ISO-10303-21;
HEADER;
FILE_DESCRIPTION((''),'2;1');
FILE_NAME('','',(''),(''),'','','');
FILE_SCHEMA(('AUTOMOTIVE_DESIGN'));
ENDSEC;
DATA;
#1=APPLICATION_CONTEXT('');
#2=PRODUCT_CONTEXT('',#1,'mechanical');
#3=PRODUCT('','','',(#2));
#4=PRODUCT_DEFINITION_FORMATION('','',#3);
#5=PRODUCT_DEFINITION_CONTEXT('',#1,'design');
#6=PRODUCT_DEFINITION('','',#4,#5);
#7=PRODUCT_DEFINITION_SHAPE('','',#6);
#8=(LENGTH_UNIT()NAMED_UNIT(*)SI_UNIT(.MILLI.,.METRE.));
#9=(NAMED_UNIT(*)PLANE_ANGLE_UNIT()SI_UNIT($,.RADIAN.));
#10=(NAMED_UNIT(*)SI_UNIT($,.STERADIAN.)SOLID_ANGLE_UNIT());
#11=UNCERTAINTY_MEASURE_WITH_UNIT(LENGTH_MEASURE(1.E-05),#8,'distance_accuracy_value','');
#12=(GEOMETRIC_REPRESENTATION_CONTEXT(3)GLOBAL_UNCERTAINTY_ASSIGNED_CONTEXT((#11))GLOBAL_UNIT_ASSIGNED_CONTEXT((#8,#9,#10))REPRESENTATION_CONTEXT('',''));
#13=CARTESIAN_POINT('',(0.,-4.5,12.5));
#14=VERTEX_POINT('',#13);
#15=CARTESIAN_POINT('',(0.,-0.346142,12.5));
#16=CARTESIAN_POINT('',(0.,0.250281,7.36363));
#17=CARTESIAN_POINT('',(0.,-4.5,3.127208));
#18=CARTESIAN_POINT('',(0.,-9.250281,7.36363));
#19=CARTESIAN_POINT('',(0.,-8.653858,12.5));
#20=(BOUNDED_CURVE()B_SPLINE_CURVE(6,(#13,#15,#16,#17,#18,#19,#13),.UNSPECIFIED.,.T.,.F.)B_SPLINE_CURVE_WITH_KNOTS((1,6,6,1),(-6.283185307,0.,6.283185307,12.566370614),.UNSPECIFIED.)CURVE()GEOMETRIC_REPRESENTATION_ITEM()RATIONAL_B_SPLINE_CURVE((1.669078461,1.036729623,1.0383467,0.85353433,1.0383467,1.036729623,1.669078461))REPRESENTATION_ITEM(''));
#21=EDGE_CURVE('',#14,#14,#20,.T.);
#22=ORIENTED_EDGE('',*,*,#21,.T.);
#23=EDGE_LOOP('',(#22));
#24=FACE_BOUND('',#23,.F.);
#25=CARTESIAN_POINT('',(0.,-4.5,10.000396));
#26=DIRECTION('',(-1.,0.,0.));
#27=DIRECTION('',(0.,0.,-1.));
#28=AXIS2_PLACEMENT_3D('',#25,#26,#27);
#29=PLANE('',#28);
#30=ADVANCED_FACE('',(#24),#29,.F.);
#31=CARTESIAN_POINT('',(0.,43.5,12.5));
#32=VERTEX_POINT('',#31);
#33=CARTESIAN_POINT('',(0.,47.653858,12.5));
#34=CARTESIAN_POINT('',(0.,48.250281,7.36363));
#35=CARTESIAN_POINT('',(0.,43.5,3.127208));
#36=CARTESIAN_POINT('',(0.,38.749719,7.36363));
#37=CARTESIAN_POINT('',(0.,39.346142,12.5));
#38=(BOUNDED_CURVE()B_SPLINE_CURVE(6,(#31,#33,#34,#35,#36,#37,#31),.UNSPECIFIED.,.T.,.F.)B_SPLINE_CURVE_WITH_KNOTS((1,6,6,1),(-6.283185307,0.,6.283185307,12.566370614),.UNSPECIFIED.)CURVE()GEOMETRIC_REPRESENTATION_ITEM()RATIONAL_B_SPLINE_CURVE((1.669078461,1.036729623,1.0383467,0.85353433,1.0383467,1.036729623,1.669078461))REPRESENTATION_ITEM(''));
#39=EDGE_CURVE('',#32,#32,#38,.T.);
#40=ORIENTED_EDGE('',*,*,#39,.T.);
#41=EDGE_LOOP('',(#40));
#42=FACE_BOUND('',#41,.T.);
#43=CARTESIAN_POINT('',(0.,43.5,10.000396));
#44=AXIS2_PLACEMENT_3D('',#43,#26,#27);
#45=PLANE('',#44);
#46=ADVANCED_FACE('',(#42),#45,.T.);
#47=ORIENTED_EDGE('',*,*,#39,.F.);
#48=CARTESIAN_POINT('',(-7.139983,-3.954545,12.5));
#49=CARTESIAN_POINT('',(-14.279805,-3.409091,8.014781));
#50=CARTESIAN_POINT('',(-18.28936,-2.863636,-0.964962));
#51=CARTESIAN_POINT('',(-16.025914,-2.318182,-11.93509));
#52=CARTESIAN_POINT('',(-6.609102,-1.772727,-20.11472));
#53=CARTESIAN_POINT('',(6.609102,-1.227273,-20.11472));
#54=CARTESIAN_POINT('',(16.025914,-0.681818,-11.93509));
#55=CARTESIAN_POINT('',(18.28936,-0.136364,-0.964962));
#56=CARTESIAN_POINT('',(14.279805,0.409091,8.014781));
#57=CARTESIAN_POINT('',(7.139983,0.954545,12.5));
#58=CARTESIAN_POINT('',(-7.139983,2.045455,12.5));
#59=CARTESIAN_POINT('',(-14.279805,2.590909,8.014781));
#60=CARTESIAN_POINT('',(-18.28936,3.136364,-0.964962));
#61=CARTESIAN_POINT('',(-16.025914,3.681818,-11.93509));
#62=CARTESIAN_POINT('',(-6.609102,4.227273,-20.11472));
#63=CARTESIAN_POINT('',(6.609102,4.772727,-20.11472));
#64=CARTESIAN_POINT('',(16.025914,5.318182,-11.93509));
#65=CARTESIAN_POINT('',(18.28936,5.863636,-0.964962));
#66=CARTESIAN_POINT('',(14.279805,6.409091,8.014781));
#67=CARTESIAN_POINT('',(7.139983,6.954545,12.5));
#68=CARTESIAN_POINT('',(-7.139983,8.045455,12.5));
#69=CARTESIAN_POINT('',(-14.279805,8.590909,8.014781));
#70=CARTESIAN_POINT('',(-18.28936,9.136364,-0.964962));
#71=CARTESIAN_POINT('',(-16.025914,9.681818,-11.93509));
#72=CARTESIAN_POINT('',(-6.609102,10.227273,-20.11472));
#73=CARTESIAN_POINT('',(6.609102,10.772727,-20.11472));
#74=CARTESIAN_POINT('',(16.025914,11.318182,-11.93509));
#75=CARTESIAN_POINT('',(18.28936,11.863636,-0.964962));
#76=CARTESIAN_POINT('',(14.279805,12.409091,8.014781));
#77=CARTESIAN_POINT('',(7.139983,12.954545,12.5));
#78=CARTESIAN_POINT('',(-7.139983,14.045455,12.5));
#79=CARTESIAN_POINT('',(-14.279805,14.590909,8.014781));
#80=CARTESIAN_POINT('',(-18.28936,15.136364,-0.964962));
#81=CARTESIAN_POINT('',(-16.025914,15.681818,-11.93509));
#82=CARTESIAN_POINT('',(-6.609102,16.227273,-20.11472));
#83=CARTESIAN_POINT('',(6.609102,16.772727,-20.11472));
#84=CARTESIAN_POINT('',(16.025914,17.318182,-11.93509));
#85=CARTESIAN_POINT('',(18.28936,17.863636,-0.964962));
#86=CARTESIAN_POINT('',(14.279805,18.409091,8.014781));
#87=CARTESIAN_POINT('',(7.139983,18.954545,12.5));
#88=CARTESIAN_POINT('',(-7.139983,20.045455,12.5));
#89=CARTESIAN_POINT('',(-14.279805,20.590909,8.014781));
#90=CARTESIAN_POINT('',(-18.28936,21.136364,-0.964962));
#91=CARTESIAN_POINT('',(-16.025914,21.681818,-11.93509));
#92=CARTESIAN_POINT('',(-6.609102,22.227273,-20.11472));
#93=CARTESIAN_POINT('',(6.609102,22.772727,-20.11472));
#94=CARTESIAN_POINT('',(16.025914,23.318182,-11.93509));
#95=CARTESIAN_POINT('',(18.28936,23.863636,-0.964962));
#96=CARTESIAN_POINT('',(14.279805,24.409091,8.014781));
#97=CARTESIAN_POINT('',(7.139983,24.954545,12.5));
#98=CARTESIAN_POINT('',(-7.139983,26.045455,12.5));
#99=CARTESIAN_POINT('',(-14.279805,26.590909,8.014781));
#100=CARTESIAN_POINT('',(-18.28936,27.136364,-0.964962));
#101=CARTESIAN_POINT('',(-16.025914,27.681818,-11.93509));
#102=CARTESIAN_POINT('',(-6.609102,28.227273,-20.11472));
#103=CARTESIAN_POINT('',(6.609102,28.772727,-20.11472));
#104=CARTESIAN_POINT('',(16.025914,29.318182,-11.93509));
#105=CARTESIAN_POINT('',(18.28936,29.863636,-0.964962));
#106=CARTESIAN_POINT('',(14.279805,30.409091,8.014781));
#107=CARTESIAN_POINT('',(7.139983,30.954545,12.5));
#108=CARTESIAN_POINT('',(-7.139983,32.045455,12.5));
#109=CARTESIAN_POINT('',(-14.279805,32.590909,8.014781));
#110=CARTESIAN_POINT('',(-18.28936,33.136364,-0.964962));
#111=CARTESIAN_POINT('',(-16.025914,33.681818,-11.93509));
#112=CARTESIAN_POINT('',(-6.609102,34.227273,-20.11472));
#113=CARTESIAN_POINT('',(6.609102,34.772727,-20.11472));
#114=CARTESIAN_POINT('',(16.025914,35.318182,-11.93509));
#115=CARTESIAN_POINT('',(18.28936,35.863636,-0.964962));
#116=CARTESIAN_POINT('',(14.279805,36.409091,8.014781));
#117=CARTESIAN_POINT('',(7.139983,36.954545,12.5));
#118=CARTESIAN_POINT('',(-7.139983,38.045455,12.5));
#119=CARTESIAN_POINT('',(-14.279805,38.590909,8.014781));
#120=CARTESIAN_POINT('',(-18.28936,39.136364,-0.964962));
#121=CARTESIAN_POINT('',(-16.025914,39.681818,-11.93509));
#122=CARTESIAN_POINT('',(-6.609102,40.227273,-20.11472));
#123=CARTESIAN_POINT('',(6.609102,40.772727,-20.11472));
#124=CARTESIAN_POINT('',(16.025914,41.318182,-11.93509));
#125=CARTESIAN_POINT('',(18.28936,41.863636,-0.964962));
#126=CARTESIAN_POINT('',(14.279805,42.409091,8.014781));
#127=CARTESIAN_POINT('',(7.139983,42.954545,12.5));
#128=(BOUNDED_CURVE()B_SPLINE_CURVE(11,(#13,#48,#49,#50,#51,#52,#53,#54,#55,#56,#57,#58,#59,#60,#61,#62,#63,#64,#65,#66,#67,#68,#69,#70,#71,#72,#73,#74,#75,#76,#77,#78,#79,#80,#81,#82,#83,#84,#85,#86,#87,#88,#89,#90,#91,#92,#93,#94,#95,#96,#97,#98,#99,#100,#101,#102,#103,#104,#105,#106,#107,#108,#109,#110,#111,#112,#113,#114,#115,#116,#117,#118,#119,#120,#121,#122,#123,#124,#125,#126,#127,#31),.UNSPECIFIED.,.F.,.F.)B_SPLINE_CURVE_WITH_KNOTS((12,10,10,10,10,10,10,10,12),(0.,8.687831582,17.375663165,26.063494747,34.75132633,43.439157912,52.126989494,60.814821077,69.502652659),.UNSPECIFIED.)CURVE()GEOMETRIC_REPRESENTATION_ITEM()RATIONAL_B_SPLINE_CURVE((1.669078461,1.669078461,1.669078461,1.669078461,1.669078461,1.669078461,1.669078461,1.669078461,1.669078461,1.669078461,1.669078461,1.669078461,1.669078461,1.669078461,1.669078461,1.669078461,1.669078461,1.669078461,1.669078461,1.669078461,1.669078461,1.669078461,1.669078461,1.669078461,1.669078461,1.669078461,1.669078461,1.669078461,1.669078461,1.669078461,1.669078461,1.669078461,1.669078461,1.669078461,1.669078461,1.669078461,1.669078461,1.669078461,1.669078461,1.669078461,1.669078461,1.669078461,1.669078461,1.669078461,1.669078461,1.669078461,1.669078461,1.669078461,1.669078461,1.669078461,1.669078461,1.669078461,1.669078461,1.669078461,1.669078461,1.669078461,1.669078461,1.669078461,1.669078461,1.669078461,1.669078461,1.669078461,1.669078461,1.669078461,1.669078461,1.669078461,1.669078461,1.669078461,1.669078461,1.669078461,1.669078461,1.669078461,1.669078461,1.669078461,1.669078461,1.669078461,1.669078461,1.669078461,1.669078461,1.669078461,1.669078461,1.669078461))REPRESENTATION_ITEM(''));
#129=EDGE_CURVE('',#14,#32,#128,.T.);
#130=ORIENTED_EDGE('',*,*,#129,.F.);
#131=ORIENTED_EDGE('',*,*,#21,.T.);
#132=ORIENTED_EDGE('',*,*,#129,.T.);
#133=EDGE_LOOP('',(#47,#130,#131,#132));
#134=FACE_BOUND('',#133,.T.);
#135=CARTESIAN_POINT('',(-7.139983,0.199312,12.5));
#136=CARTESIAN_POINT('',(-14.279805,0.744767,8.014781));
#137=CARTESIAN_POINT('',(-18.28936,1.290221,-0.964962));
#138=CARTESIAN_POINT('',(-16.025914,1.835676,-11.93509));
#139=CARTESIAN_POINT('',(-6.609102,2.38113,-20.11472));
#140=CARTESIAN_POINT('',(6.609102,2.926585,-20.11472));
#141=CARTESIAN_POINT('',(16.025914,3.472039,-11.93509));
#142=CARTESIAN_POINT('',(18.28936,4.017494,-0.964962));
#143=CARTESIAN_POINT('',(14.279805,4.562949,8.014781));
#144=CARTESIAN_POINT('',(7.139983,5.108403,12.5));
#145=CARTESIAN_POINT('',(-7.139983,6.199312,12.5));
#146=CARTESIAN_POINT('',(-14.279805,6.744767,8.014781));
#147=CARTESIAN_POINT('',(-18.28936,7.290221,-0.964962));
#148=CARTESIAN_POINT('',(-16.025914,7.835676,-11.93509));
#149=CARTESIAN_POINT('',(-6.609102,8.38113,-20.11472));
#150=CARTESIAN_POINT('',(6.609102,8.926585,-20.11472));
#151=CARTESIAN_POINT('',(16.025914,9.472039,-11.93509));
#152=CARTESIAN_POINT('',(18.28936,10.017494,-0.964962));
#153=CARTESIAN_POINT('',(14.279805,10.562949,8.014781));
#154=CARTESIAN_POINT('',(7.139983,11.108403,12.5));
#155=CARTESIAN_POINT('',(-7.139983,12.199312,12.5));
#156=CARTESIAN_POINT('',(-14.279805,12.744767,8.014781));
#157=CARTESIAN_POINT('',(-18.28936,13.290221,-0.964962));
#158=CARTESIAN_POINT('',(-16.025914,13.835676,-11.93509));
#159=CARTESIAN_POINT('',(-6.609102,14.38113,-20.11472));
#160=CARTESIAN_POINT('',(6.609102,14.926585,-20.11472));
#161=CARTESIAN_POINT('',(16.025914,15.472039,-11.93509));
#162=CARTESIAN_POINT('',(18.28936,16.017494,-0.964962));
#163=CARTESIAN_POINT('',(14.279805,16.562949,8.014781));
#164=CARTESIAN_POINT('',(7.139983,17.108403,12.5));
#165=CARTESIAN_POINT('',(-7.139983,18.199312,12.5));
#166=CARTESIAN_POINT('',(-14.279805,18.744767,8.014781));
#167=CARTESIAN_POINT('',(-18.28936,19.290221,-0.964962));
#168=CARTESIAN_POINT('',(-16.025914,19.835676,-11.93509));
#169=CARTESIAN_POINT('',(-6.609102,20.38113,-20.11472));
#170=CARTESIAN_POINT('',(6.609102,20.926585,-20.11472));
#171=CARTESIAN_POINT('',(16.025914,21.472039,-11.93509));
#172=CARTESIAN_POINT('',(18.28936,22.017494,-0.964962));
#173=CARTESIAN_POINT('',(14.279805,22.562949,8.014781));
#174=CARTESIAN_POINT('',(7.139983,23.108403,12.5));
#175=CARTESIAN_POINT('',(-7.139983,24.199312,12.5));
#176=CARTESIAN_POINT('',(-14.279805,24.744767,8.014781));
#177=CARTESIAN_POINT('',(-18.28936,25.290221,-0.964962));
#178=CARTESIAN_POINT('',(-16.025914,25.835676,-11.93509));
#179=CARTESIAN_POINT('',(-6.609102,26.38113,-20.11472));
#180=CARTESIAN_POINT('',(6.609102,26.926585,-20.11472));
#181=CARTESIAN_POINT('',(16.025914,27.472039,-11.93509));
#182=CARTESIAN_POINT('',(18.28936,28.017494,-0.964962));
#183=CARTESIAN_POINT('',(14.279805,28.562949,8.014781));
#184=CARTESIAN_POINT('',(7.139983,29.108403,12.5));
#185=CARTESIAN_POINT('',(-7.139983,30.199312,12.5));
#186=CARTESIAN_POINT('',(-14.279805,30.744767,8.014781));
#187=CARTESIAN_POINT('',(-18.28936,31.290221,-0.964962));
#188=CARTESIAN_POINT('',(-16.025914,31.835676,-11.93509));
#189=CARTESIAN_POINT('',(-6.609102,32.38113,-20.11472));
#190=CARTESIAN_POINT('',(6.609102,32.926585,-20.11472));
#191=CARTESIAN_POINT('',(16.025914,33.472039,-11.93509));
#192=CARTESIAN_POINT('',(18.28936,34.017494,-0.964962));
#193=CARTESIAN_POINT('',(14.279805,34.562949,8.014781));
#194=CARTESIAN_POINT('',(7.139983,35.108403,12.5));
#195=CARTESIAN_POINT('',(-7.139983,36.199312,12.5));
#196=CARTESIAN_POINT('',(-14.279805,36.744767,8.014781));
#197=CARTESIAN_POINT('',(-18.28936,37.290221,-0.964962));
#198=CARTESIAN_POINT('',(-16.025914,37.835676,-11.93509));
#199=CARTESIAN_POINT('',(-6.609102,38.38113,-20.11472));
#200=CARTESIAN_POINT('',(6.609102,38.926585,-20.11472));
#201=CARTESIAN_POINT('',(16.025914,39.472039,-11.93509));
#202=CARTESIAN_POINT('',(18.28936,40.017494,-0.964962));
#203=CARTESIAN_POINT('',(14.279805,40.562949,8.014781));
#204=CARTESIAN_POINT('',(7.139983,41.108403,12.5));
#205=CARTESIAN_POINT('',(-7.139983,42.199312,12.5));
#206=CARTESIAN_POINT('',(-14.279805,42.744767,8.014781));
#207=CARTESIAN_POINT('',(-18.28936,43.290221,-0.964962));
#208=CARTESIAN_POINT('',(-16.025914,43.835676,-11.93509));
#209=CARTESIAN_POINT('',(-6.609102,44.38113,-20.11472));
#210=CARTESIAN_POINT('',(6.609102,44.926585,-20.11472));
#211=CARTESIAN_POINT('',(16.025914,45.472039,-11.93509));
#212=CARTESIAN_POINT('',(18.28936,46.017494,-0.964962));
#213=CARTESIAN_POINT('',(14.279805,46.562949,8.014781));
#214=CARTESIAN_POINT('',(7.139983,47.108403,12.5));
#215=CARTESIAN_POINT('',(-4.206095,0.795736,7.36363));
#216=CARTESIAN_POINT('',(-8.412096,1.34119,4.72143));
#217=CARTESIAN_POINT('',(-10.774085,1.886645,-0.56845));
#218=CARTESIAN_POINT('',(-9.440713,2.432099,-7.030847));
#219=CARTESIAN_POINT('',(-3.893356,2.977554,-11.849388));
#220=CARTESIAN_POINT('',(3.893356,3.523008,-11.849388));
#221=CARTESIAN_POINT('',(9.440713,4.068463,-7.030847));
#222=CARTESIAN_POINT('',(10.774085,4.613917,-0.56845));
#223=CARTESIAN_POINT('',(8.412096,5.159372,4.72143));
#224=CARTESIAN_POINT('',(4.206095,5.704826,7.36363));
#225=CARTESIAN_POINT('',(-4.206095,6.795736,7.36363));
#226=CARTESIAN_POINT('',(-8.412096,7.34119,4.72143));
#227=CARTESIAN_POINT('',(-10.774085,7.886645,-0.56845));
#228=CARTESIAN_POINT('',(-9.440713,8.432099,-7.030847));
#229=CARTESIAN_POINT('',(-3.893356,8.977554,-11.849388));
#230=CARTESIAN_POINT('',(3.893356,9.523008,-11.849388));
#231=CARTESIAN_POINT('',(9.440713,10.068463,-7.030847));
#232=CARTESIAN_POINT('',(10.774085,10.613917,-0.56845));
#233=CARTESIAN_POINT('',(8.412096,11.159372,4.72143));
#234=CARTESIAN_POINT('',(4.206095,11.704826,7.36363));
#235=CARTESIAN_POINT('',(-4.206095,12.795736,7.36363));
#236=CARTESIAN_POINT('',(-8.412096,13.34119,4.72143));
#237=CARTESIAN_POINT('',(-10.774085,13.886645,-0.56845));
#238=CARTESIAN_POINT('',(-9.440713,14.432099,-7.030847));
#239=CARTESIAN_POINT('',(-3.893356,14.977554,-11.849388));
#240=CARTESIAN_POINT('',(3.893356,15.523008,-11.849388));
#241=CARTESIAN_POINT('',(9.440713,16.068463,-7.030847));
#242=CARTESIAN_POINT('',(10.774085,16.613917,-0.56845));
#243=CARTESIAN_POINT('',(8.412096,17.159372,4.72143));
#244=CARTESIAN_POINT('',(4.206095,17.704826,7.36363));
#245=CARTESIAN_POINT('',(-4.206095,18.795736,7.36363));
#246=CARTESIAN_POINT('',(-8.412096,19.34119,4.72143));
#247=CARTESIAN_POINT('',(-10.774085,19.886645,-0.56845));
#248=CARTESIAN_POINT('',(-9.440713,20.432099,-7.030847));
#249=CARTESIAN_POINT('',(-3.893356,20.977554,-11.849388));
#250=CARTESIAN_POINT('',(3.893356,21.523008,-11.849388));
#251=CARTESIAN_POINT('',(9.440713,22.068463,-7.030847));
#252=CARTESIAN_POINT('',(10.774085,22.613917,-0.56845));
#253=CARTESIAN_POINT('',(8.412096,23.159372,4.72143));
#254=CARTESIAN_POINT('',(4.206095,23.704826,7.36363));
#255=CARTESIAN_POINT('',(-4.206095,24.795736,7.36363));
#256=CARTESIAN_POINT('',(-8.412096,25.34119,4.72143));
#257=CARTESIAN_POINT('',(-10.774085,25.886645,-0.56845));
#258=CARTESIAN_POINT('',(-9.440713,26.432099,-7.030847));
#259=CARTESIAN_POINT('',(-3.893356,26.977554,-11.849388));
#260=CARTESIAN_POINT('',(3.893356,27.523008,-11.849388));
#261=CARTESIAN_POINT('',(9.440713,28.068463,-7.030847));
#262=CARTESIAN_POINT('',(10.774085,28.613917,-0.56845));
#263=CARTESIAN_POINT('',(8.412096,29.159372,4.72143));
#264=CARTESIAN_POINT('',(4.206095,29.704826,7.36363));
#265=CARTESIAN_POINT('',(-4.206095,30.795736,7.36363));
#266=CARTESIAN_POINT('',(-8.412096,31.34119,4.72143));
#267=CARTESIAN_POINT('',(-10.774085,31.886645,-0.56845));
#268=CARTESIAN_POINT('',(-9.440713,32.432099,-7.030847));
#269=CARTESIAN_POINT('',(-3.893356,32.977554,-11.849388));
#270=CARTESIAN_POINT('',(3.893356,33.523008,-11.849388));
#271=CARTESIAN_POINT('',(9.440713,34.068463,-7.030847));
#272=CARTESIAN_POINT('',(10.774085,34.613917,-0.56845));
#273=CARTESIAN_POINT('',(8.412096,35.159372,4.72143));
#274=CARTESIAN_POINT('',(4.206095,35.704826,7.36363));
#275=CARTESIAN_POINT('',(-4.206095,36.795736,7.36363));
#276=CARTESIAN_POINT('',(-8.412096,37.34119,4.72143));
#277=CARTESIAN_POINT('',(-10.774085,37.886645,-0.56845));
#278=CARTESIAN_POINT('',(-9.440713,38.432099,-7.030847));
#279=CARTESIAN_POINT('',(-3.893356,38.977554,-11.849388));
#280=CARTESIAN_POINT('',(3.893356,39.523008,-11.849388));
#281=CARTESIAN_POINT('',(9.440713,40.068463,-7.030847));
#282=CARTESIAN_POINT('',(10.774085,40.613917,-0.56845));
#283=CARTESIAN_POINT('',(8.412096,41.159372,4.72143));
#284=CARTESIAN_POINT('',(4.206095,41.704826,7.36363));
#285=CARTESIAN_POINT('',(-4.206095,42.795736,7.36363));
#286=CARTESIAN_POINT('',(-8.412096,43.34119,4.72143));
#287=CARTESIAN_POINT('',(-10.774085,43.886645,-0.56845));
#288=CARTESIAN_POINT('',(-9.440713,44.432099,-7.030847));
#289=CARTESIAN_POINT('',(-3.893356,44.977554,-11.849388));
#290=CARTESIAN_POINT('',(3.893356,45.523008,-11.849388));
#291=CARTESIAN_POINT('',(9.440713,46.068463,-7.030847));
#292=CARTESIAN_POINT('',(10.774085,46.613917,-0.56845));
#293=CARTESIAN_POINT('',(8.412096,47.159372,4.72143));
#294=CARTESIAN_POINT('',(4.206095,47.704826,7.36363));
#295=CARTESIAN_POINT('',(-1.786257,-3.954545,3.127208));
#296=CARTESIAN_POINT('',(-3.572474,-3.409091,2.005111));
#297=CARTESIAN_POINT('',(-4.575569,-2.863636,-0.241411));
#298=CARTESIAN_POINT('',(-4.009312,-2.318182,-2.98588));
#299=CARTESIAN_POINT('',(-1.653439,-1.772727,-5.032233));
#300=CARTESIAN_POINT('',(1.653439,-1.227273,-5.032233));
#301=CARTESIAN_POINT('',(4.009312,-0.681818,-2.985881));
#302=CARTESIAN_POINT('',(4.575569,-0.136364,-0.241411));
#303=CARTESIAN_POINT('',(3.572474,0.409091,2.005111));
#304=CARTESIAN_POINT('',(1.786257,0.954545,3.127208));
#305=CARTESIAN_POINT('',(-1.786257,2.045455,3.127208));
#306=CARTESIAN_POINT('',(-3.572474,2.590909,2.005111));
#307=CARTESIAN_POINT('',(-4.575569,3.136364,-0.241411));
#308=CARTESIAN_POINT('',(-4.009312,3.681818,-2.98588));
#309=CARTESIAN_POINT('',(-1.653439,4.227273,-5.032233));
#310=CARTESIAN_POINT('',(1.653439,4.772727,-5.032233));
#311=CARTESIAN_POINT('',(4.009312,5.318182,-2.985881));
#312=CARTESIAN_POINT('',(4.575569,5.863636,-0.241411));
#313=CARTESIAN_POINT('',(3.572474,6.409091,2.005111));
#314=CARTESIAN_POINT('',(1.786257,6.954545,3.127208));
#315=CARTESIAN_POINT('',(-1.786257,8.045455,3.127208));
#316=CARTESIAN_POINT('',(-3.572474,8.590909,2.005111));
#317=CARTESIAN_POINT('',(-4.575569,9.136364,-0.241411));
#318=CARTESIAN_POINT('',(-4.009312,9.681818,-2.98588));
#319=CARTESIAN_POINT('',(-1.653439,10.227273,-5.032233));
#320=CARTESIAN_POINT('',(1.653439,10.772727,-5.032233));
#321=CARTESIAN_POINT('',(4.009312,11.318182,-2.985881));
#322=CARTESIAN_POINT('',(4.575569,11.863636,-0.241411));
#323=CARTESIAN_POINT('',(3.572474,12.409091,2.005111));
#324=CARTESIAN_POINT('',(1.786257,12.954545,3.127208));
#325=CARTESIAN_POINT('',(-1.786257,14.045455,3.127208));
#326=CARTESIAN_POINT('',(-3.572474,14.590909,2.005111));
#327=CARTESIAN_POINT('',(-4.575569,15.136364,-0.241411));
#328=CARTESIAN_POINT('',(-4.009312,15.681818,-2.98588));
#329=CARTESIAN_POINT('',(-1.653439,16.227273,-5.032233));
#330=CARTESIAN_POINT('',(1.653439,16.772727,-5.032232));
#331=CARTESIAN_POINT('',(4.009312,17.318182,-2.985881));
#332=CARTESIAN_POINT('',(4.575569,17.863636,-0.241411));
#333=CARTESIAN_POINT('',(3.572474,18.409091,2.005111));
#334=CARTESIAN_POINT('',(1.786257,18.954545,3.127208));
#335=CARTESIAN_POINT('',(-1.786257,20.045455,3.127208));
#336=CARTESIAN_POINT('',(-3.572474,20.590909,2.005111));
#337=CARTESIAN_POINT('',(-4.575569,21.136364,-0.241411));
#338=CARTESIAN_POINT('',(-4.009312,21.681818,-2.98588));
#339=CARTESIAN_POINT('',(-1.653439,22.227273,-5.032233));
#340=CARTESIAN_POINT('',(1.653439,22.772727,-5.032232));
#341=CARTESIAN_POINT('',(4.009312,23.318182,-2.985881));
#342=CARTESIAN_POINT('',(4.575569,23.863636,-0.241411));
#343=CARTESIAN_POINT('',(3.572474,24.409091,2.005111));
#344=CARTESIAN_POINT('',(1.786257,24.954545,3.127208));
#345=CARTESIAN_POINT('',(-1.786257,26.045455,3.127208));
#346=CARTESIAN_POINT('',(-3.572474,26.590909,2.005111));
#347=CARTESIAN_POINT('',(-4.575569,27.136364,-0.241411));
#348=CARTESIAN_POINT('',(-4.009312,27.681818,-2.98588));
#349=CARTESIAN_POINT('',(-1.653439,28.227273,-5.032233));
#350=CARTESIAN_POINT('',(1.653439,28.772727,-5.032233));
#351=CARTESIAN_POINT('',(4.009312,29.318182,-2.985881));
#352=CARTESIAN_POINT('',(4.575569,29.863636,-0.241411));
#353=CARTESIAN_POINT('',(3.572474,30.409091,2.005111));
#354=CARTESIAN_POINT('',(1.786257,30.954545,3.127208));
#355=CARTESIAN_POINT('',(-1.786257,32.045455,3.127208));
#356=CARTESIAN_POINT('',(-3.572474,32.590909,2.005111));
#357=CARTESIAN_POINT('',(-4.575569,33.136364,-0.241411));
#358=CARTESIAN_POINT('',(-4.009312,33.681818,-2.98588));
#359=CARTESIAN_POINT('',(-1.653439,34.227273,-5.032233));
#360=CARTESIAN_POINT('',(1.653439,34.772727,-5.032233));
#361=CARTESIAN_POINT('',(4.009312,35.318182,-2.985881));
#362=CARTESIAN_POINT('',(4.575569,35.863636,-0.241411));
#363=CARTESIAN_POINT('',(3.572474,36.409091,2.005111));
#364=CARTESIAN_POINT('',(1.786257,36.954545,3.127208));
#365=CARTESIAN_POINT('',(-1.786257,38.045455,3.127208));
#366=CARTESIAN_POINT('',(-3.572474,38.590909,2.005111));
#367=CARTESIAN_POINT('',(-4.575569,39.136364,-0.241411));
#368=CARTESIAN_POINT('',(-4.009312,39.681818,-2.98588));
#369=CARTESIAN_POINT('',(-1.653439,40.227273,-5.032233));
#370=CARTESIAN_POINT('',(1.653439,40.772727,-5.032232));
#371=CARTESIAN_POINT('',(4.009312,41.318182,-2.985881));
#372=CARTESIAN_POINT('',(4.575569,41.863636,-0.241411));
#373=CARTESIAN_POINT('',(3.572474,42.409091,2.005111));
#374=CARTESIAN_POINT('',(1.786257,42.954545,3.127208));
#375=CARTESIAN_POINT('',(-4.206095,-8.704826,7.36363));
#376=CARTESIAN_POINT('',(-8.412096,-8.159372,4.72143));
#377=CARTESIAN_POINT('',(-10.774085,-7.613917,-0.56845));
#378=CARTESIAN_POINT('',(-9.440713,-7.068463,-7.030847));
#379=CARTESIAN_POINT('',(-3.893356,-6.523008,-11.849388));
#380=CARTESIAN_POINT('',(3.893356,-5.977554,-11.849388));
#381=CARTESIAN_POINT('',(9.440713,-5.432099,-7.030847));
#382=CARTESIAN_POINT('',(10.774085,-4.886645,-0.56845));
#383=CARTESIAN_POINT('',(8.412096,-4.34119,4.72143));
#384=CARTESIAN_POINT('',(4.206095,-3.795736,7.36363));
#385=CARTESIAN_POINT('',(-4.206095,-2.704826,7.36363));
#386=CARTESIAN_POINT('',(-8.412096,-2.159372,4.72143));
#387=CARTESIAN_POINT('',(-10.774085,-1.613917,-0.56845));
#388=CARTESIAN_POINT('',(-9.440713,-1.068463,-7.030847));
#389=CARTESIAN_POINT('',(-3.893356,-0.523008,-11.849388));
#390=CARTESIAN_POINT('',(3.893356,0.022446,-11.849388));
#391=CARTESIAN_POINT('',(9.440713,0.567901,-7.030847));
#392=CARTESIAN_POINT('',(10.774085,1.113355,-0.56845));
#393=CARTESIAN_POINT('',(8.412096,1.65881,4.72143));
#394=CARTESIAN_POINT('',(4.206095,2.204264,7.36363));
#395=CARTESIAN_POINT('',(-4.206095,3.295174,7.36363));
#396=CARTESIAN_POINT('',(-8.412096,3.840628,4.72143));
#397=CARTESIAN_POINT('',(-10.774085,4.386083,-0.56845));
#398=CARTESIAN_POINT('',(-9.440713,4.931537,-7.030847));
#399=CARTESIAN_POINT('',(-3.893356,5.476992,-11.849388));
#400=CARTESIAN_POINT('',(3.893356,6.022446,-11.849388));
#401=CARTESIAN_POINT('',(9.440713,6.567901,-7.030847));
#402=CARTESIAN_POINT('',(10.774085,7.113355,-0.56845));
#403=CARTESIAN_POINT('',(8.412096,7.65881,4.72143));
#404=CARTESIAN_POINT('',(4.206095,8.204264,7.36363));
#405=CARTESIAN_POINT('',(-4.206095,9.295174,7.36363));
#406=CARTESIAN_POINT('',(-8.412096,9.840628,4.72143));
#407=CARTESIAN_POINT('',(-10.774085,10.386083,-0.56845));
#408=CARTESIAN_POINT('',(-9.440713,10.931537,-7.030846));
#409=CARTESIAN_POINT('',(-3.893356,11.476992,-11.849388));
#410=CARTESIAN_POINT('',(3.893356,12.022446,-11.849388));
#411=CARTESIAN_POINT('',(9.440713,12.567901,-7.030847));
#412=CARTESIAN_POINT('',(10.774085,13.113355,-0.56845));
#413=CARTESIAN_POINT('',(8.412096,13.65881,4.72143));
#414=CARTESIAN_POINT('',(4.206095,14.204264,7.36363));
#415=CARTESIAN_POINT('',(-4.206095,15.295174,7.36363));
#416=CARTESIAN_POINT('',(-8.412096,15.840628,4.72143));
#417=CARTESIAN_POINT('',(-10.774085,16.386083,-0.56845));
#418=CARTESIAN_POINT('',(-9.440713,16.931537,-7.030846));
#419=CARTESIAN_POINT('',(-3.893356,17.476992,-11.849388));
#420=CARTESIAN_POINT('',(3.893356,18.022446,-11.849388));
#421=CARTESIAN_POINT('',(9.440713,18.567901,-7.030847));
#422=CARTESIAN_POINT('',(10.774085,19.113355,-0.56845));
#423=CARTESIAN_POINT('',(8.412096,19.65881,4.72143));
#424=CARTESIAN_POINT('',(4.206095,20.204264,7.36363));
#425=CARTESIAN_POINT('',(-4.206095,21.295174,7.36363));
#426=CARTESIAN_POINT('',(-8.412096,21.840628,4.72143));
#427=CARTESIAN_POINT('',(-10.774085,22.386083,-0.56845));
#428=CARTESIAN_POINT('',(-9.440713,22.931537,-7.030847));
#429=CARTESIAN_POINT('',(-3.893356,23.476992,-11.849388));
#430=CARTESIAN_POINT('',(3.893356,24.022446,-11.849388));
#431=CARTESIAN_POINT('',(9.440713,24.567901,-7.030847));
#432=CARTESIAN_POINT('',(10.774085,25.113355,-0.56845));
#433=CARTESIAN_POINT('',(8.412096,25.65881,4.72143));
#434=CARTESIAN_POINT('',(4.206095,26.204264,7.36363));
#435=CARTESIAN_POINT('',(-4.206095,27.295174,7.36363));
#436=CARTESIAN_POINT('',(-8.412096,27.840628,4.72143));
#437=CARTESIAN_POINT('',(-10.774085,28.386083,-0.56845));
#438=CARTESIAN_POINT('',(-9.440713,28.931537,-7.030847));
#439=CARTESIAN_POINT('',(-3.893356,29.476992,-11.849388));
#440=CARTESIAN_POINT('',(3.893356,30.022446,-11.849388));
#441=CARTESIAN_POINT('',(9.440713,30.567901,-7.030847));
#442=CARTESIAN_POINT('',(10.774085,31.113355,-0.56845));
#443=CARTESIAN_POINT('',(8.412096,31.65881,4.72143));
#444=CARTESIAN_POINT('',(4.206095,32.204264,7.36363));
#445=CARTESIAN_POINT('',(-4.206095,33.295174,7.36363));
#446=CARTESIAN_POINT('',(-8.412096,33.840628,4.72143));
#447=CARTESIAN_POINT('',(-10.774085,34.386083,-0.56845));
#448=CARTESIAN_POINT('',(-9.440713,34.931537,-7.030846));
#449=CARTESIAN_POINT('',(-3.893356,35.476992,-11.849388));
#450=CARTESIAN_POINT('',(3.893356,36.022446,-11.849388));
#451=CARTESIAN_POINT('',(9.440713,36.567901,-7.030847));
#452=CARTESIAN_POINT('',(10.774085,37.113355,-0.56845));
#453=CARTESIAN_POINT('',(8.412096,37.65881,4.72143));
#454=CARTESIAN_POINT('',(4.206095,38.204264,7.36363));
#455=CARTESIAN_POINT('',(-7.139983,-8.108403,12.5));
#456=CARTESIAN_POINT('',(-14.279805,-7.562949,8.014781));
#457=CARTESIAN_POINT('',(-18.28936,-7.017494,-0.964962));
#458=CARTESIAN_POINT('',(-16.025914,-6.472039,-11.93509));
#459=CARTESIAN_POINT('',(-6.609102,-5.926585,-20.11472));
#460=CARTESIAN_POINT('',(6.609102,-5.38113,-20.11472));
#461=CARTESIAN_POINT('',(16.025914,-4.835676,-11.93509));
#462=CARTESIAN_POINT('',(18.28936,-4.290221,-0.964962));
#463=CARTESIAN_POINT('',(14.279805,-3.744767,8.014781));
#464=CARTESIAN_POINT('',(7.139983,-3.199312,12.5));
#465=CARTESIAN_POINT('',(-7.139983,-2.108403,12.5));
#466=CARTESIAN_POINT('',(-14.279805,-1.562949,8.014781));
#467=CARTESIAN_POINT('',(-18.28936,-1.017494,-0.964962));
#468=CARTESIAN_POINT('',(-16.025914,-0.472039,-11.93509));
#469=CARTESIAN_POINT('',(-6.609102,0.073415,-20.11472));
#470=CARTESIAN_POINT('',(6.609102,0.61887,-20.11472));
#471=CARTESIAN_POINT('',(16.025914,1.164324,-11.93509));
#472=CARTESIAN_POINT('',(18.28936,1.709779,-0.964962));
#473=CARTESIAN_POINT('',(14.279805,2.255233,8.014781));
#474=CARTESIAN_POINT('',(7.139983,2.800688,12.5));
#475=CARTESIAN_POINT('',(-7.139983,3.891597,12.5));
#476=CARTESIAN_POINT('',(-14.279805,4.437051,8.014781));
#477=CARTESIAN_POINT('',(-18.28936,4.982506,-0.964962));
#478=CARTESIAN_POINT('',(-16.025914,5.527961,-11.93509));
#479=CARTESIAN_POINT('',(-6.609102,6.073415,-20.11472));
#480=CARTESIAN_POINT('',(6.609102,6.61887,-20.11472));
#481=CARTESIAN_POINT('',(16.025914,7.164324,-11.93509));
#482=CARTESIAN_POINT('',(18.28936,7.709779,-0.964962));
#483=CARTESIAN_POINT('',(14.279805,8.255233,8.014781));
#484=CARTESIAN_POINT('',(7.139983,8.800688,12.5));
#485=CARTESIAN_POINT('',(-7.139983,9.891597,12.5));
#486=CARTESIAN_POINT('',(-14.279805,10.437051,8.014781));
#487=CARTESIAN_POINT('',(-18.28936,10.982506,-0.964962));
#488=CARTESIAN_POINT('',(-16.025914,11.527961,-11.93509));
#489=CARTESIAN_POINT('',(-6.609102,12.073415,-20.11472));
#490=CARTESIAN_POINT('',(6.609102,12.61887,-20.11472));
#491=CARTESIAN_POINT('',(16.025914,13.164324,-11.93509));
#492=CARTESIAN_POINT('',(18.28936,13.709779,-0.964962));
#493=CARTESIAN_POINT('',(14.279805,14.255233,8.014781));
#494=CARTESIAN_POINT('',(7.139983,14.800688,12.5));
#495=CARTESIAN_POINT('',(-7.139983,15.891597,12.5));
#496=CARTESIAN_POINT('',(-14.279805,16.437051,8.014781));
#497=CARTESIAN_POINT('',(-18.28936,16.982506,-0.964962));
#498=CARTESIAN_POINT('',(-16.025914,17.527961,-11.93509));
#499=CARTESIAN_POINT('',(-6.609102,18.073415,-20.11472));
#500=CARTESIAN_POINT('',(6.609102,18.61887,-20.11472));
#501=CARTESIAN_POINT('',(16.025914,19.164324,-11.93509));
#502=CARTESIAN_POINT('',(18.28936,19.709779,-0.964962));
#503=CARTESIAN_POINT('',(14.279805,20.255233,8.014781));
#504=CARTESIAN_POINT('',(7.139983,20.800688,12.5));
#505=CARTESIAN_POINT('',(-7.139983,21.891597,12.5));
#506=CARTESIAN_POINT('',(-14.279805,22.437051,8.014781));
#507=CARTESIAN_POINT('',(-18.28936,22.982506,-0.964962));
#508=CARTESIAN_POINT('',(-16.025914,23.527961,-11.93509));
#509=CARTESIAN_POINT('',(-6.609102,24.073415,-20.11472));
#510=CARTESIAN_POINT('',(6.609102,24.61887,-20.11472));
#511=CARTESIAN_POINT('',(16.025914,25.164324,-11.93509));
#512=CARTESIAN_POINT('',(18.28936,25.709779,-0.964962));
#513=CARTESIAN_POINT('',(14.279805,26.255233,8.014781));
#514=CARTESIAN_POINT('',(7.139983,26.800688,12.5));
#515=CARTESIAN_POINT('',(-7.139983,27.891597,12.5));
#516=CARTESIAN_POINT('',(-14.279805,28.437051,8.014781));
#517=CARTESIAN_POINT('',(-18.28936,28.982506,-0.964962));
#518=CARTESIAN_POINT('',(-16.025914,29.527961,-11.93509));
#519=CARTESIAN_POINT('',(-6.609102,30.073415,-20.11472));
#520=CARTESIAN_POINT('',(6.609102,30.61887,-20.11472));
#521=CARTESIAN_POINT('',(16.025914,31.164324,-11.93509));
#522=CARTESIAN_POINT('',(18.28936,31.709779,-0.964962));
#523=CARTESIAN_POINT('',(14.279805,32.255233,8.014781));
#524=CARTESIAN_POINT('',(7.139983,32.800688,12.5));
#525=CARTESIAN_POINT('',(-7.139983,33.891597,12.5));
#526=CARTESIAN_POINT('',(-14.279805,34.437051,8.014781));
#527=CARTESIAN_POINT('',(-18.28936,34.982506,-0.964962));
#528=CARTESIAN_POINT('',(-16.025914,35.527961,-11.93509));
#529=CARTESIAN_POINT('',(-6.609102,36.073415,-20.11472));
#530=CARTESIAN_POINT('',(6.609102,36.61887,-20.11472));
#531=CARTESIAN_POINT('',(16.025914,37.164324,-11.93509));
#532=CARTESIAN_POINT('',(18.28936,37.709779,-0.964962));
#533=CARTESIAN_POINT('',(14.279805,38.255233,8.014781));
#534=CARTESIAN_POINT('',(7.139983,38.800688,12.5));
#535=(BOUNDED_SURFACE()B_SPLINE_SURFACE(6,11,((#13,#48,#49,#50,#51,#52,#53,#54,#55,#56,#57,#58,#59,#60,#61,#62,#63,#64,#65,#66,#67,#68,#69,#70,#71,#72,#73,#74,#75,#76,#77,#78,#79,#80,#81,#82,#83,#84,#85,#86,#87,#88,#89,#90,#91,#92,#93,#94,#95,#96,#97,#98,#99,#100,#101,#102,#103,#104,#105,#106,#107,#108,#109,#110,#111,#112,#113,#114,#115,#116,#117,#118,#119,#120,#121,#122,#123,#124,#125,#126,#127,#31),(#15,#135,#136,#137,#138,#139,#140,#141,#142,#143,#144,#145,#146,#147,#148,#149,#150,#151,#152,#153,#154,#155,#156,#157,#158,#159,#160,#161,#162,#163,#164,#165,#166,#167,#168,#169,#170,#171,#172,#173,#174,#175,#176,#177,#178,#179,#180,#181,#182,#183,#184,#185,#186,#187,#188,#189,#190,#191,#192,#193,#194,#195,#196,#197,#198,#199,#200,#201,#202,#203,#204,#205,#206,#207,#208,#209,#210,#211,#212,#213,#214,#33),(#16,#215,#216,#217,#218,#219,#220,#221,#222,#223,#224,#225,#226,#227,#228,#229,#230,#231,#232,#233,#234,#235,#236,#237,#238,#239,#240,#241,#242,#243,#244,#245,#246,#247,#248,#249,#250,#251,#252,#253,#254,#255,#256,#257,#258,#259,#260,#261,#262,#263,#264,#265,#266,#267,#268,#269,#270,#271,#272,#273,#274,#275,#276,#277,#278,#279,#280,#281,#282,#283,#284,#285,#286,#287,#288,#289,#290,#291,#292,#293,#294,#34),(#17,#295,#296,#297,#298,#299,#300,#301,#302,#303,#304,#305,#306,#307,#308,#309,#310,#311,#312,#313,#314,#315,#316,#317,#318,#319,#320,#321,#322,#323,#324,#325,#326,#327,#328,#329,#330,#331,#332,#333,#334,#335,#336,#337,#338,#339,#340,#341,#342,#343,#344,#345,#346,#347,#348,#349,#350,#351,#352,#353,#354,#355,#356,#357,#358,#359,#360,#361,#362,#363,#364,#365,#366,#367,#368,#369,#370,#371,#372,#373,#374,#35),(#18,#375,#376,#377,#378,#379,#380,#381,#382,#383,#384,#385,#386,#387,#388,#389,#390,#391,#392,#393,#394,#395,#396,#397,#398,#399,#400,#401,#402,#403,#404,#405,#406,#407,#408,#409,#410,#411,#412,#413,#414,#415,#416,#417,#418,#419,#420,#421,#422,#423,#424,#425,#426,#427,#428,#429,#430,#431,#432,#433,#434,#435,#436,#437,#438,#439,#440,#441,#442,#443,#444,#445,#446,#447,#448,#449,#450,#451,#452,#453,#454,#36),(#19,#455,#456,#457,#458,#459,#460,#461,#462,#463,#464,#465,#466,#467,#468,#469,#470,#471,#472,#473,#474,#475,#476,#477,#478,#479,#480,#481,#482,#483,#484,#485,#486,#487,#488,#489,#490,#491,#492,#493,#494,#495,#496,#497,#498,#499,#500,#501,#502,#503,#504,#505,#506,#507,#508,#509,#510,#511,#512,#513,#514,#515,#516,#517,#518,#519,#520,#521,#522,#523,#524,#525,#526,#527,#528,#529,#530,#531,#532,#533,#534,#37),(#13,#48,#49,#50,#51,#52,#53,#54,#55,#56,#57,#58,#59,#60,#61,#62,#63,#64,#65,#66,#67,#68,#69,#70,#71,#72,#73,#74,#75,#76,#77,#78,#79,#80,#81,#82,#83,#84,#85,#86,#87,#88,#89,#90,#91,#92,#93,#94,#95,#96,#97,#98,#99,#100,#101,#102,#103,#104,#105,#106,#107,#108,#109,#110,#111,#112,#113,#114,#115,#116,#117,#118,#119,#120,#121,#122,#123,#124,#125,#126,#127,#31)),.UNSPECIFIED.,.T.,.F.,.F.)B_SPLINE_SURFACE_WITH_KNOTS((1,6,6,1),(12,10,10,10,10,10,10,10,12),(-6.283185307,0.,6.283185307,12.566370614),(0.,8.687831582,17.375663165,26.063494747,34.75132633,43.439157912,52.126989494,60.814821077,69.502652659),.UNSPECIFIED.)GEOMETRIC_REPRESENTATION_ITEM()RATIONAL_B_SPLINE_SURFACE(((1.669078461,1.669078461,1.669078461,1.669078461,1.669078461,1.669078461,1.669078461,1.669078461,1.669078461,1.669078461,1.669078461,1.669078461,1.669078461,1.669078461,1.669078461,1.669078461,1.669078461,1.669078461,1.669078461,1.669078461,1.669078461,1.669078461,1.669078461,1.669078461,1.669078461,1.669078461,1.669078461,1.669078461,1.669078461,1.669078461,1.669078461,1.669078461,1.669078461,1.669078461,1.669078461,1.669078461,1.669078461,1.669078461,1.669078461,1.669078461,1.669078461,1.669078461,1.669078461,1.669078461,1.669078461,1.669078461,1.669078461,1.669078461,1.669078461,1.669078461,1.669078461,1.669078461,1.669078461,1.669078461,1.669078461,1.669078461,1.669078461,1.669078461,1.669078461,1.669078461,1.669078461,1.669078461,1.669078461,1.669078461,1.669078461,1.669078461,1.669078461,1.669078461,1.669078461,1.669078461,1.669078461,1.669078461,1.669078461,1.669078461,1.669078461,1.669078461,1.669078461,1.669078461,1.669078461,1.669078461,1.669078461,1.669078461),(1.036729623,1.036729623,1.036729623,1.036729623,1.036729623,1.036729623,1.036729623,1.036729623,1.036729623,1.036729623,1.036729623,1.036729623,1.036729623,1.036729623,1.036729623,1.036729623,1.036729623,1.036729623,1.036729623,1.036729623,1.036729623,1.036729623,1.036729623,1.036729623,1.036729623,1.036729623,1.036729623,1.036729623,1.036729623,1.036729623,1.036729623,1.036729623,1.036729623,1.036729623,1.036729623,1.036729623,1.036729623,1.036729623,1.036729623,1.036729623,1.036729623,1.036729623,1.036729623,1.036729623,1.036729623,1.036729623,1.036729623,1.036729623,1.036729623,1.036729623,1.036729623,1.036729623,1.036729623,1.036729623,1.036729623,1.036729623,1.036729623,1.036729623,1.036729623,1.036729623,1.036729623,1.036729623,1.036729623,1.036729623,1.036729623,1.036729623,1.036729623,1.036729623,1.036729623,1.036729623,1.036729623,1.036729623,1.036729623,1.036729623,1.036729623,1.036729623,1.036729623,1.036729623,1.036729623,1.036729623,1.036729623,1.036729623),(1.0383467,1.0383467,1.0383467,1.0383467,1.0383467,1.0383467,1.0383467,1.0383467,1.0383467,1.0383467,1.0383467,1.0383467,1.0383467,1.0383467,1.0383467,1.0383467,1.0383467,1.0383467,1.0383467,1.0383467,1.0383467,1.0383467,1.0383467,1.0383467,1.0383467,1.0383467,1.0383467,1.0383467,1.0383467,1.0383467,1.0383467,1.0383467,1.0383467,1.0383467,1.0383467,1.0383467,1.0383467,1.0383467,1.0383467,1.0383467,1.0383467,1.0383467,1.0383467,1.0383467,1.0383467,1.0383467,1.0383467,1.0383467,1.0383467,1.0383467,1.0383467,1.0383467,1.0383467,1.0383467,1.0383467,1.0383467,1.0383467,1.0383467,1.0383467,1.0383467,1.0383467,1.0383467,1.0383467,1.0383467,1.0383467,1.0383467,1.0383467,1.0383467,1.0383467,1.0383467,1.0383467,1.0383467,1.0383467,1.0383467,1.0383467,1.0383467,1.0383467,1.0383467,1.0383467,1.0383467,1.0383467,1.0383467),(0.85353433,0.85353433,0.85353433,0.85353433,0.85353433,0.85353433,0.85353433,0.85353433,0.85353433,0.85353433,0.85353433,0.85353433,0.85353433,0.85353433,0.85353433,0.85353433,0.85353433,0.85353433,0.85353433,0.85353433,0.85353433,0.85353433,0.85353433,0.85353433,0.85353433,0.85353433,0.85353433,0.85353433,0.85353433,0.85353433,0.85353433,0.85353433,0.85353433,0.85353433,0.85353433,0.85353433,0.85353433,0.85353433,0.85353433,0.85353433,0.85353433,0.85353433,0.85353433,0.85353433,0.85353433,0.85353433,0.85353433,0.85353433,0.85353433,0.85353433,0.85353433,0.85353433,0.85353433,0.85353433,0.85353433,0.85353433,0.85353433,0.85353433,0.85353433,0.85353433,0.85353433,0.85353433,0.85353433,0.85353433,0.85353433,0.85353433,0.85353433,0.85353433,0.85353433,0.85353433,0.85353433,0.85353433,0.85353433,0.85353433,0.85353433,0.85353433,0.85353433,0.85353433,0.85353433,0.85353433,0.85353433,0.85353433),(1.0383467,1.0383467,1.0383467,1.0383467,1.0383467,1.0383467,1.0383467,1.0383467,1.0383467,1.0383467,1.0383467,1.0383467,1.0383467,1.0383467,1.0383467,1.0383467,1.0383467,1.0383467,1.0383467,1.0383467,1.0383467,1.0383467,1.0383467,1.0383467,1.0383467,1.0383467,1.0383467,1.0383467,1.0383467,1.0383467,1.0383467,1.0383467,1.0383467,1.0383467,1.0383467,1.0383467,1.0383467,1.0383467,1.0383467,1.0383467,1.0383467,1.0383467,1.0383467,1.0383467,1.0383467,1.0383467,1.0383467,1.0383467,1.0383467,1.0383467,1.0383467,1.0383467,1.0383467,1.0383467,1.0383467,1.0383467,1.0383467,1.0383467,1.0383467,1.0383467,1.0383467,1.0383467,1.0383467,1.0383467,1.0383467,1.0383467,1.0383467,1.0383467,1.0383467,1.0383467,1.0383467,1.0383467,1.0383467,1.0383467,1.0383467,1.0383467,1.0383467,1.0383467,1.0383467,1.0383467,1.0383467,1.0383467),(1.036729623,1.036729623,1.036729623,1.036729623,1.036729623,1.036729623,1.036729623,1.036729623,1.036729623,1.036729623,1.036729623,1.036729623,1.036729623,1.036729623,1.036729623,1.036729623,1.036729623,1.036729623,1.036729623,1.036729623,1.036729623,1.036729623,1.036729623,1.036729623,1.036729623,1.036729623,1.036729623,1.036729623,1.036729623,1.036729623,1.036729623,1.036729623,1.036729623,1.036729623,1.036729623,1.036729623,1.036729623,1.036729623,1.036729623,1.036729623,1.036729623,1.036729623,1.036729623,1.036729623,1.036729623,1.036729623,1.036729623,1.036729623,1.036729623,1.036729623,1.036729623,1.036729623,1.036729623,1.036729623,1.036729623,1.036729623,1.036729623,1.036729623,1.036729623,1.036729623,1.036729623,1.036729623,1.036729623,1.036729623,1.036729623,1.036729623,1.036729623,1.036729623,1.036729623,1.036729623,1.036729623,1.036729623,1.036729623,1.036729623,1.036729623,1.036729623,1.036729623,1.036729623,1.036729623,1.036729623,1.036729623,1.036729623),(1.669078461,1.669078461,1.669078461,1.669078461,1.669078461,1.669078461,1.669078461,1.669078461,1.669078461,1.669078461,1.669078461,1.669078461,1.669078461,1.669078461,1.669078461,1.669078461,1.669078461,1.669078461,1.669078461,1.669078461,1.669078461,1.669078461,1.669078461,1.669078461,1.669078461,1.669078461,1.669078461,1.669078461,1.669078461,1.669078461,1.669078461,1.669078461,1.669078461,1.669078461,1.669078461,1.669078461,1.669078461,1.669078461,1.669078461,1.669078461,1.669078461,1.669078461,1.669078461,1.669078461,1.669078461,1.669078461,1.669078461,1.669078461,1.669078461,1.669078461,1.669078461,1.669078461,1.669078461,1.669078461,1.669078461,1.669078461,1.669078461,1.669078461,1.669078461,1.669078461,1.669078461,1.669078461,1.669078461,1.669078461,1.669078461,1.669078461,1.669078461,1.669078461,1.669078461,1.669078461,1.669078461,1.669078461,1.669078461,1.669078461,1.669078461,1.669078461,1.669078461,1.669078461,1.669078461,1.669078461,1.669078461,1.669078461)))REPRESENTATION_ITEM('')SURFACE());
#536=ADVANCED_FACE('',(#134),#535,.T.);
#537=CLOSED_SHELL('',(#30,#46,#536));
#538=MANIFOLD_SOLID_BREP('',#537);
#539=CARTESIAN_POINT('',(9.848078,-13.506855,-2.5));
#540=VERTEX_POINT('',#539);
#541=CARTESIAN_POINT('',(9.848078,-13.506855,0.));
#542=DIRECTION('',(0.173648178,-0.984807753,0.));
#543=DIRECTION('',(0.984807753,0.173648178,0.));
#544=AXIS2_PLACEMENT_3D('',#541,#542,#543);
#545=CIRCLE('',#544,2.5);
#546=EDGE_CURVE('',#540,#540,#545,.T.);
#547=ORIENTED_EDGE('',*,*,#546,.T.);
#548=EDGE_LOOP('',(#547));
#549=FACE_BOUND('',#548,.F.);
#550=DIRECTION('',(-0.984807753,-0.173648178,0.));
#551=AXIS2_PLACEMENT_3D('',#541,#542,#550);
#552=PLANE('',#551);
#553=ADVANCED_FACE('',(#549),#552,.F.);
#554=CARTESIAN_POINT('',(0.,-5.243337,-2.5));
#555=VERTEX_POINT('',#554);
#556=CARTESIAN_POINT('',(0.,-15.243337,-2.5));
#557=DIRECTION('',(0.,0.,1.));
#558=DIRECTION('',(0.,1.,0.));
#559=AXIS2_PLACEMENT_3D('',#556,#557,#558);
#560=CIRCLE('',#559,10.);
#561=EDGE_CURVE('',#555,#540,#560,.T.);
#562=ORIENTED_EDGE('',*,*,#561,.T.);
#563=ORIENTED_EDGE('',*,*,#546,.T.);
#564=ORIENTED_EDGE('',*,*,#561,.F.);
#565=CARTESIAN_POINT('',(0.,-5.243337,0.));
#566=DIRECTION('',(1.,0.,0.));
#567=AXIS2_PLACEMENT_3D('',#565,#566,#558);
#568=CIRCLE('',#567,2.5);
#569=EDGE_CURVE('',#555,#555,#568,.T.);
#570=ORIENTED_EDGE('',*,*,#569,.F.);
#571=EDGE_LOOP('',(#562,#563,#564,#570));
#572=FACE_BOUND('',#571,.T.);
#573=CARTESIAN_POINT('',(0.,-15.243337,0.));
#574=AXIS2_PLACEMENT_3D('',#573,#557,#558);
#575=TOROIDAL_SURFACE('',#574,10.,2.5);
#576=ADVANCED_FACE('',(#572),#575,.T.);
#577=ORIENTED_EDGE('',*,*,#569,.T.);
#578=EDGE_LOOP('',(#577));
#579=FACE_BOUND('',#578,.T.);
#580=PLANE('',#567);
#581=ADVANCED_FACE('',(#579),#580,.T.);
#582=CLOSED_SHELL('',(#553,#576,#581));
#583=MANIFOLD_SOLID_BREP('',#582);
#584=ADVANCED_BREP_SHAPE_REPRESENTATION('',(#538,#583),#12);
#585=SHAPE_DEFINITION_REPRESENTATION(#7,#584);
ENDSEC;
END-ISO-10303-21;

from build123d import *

# Parameters (mm, degrees)
SWEEP_1_PITCH  = 6
SWEEP_1_HEIGHT = 48
SWEEP_1_RADIUS = 10
SKETCH_1_R     = 2.5
SKETCH_5_R     = 2.5


with BuildPart() as part:
    # 扫描1: sweep along a helix
    with BuildLine() as sweep_1_path:
        Helix(SWEEP_1_PITCH, SWEEP_1_HEIGHT, SWEEP_1_RADIUS, center=(0, 0, 0), direction=(0, 1, 0), lefthand=True)
    # 草图1 → 扫描1 (sweep)
    with BuildSketch(Plane.XY):
        with Locations((10, 0)):
            Circle(SKETCH_1_R)
    sweep(path=sweep_1_path.line, is_frenet=True)


with BuildPart() as body_2:
    # 扫描2: sweep along a path in 草图6
    with BuildLine(Plane.XY) as sweep_2_path:
        ThreePointArc((0, -5.243336651), (-6.427876097, -22.903781082), (9.84807753, -13.506854874))
    # 草图5 → 扫描2 (sweep)
    with BuildSketch(Plane(origin=(0, 0, 0), x_dir=(0, 0, -1), z_dir=(1, 0, 0))):
        with Locations((0, -5.243336651)):
            Circle(SKETCH_5_R)
    sweep(path=sweep_2_path.line)


solid = Compound([part.part, body_2.part])
